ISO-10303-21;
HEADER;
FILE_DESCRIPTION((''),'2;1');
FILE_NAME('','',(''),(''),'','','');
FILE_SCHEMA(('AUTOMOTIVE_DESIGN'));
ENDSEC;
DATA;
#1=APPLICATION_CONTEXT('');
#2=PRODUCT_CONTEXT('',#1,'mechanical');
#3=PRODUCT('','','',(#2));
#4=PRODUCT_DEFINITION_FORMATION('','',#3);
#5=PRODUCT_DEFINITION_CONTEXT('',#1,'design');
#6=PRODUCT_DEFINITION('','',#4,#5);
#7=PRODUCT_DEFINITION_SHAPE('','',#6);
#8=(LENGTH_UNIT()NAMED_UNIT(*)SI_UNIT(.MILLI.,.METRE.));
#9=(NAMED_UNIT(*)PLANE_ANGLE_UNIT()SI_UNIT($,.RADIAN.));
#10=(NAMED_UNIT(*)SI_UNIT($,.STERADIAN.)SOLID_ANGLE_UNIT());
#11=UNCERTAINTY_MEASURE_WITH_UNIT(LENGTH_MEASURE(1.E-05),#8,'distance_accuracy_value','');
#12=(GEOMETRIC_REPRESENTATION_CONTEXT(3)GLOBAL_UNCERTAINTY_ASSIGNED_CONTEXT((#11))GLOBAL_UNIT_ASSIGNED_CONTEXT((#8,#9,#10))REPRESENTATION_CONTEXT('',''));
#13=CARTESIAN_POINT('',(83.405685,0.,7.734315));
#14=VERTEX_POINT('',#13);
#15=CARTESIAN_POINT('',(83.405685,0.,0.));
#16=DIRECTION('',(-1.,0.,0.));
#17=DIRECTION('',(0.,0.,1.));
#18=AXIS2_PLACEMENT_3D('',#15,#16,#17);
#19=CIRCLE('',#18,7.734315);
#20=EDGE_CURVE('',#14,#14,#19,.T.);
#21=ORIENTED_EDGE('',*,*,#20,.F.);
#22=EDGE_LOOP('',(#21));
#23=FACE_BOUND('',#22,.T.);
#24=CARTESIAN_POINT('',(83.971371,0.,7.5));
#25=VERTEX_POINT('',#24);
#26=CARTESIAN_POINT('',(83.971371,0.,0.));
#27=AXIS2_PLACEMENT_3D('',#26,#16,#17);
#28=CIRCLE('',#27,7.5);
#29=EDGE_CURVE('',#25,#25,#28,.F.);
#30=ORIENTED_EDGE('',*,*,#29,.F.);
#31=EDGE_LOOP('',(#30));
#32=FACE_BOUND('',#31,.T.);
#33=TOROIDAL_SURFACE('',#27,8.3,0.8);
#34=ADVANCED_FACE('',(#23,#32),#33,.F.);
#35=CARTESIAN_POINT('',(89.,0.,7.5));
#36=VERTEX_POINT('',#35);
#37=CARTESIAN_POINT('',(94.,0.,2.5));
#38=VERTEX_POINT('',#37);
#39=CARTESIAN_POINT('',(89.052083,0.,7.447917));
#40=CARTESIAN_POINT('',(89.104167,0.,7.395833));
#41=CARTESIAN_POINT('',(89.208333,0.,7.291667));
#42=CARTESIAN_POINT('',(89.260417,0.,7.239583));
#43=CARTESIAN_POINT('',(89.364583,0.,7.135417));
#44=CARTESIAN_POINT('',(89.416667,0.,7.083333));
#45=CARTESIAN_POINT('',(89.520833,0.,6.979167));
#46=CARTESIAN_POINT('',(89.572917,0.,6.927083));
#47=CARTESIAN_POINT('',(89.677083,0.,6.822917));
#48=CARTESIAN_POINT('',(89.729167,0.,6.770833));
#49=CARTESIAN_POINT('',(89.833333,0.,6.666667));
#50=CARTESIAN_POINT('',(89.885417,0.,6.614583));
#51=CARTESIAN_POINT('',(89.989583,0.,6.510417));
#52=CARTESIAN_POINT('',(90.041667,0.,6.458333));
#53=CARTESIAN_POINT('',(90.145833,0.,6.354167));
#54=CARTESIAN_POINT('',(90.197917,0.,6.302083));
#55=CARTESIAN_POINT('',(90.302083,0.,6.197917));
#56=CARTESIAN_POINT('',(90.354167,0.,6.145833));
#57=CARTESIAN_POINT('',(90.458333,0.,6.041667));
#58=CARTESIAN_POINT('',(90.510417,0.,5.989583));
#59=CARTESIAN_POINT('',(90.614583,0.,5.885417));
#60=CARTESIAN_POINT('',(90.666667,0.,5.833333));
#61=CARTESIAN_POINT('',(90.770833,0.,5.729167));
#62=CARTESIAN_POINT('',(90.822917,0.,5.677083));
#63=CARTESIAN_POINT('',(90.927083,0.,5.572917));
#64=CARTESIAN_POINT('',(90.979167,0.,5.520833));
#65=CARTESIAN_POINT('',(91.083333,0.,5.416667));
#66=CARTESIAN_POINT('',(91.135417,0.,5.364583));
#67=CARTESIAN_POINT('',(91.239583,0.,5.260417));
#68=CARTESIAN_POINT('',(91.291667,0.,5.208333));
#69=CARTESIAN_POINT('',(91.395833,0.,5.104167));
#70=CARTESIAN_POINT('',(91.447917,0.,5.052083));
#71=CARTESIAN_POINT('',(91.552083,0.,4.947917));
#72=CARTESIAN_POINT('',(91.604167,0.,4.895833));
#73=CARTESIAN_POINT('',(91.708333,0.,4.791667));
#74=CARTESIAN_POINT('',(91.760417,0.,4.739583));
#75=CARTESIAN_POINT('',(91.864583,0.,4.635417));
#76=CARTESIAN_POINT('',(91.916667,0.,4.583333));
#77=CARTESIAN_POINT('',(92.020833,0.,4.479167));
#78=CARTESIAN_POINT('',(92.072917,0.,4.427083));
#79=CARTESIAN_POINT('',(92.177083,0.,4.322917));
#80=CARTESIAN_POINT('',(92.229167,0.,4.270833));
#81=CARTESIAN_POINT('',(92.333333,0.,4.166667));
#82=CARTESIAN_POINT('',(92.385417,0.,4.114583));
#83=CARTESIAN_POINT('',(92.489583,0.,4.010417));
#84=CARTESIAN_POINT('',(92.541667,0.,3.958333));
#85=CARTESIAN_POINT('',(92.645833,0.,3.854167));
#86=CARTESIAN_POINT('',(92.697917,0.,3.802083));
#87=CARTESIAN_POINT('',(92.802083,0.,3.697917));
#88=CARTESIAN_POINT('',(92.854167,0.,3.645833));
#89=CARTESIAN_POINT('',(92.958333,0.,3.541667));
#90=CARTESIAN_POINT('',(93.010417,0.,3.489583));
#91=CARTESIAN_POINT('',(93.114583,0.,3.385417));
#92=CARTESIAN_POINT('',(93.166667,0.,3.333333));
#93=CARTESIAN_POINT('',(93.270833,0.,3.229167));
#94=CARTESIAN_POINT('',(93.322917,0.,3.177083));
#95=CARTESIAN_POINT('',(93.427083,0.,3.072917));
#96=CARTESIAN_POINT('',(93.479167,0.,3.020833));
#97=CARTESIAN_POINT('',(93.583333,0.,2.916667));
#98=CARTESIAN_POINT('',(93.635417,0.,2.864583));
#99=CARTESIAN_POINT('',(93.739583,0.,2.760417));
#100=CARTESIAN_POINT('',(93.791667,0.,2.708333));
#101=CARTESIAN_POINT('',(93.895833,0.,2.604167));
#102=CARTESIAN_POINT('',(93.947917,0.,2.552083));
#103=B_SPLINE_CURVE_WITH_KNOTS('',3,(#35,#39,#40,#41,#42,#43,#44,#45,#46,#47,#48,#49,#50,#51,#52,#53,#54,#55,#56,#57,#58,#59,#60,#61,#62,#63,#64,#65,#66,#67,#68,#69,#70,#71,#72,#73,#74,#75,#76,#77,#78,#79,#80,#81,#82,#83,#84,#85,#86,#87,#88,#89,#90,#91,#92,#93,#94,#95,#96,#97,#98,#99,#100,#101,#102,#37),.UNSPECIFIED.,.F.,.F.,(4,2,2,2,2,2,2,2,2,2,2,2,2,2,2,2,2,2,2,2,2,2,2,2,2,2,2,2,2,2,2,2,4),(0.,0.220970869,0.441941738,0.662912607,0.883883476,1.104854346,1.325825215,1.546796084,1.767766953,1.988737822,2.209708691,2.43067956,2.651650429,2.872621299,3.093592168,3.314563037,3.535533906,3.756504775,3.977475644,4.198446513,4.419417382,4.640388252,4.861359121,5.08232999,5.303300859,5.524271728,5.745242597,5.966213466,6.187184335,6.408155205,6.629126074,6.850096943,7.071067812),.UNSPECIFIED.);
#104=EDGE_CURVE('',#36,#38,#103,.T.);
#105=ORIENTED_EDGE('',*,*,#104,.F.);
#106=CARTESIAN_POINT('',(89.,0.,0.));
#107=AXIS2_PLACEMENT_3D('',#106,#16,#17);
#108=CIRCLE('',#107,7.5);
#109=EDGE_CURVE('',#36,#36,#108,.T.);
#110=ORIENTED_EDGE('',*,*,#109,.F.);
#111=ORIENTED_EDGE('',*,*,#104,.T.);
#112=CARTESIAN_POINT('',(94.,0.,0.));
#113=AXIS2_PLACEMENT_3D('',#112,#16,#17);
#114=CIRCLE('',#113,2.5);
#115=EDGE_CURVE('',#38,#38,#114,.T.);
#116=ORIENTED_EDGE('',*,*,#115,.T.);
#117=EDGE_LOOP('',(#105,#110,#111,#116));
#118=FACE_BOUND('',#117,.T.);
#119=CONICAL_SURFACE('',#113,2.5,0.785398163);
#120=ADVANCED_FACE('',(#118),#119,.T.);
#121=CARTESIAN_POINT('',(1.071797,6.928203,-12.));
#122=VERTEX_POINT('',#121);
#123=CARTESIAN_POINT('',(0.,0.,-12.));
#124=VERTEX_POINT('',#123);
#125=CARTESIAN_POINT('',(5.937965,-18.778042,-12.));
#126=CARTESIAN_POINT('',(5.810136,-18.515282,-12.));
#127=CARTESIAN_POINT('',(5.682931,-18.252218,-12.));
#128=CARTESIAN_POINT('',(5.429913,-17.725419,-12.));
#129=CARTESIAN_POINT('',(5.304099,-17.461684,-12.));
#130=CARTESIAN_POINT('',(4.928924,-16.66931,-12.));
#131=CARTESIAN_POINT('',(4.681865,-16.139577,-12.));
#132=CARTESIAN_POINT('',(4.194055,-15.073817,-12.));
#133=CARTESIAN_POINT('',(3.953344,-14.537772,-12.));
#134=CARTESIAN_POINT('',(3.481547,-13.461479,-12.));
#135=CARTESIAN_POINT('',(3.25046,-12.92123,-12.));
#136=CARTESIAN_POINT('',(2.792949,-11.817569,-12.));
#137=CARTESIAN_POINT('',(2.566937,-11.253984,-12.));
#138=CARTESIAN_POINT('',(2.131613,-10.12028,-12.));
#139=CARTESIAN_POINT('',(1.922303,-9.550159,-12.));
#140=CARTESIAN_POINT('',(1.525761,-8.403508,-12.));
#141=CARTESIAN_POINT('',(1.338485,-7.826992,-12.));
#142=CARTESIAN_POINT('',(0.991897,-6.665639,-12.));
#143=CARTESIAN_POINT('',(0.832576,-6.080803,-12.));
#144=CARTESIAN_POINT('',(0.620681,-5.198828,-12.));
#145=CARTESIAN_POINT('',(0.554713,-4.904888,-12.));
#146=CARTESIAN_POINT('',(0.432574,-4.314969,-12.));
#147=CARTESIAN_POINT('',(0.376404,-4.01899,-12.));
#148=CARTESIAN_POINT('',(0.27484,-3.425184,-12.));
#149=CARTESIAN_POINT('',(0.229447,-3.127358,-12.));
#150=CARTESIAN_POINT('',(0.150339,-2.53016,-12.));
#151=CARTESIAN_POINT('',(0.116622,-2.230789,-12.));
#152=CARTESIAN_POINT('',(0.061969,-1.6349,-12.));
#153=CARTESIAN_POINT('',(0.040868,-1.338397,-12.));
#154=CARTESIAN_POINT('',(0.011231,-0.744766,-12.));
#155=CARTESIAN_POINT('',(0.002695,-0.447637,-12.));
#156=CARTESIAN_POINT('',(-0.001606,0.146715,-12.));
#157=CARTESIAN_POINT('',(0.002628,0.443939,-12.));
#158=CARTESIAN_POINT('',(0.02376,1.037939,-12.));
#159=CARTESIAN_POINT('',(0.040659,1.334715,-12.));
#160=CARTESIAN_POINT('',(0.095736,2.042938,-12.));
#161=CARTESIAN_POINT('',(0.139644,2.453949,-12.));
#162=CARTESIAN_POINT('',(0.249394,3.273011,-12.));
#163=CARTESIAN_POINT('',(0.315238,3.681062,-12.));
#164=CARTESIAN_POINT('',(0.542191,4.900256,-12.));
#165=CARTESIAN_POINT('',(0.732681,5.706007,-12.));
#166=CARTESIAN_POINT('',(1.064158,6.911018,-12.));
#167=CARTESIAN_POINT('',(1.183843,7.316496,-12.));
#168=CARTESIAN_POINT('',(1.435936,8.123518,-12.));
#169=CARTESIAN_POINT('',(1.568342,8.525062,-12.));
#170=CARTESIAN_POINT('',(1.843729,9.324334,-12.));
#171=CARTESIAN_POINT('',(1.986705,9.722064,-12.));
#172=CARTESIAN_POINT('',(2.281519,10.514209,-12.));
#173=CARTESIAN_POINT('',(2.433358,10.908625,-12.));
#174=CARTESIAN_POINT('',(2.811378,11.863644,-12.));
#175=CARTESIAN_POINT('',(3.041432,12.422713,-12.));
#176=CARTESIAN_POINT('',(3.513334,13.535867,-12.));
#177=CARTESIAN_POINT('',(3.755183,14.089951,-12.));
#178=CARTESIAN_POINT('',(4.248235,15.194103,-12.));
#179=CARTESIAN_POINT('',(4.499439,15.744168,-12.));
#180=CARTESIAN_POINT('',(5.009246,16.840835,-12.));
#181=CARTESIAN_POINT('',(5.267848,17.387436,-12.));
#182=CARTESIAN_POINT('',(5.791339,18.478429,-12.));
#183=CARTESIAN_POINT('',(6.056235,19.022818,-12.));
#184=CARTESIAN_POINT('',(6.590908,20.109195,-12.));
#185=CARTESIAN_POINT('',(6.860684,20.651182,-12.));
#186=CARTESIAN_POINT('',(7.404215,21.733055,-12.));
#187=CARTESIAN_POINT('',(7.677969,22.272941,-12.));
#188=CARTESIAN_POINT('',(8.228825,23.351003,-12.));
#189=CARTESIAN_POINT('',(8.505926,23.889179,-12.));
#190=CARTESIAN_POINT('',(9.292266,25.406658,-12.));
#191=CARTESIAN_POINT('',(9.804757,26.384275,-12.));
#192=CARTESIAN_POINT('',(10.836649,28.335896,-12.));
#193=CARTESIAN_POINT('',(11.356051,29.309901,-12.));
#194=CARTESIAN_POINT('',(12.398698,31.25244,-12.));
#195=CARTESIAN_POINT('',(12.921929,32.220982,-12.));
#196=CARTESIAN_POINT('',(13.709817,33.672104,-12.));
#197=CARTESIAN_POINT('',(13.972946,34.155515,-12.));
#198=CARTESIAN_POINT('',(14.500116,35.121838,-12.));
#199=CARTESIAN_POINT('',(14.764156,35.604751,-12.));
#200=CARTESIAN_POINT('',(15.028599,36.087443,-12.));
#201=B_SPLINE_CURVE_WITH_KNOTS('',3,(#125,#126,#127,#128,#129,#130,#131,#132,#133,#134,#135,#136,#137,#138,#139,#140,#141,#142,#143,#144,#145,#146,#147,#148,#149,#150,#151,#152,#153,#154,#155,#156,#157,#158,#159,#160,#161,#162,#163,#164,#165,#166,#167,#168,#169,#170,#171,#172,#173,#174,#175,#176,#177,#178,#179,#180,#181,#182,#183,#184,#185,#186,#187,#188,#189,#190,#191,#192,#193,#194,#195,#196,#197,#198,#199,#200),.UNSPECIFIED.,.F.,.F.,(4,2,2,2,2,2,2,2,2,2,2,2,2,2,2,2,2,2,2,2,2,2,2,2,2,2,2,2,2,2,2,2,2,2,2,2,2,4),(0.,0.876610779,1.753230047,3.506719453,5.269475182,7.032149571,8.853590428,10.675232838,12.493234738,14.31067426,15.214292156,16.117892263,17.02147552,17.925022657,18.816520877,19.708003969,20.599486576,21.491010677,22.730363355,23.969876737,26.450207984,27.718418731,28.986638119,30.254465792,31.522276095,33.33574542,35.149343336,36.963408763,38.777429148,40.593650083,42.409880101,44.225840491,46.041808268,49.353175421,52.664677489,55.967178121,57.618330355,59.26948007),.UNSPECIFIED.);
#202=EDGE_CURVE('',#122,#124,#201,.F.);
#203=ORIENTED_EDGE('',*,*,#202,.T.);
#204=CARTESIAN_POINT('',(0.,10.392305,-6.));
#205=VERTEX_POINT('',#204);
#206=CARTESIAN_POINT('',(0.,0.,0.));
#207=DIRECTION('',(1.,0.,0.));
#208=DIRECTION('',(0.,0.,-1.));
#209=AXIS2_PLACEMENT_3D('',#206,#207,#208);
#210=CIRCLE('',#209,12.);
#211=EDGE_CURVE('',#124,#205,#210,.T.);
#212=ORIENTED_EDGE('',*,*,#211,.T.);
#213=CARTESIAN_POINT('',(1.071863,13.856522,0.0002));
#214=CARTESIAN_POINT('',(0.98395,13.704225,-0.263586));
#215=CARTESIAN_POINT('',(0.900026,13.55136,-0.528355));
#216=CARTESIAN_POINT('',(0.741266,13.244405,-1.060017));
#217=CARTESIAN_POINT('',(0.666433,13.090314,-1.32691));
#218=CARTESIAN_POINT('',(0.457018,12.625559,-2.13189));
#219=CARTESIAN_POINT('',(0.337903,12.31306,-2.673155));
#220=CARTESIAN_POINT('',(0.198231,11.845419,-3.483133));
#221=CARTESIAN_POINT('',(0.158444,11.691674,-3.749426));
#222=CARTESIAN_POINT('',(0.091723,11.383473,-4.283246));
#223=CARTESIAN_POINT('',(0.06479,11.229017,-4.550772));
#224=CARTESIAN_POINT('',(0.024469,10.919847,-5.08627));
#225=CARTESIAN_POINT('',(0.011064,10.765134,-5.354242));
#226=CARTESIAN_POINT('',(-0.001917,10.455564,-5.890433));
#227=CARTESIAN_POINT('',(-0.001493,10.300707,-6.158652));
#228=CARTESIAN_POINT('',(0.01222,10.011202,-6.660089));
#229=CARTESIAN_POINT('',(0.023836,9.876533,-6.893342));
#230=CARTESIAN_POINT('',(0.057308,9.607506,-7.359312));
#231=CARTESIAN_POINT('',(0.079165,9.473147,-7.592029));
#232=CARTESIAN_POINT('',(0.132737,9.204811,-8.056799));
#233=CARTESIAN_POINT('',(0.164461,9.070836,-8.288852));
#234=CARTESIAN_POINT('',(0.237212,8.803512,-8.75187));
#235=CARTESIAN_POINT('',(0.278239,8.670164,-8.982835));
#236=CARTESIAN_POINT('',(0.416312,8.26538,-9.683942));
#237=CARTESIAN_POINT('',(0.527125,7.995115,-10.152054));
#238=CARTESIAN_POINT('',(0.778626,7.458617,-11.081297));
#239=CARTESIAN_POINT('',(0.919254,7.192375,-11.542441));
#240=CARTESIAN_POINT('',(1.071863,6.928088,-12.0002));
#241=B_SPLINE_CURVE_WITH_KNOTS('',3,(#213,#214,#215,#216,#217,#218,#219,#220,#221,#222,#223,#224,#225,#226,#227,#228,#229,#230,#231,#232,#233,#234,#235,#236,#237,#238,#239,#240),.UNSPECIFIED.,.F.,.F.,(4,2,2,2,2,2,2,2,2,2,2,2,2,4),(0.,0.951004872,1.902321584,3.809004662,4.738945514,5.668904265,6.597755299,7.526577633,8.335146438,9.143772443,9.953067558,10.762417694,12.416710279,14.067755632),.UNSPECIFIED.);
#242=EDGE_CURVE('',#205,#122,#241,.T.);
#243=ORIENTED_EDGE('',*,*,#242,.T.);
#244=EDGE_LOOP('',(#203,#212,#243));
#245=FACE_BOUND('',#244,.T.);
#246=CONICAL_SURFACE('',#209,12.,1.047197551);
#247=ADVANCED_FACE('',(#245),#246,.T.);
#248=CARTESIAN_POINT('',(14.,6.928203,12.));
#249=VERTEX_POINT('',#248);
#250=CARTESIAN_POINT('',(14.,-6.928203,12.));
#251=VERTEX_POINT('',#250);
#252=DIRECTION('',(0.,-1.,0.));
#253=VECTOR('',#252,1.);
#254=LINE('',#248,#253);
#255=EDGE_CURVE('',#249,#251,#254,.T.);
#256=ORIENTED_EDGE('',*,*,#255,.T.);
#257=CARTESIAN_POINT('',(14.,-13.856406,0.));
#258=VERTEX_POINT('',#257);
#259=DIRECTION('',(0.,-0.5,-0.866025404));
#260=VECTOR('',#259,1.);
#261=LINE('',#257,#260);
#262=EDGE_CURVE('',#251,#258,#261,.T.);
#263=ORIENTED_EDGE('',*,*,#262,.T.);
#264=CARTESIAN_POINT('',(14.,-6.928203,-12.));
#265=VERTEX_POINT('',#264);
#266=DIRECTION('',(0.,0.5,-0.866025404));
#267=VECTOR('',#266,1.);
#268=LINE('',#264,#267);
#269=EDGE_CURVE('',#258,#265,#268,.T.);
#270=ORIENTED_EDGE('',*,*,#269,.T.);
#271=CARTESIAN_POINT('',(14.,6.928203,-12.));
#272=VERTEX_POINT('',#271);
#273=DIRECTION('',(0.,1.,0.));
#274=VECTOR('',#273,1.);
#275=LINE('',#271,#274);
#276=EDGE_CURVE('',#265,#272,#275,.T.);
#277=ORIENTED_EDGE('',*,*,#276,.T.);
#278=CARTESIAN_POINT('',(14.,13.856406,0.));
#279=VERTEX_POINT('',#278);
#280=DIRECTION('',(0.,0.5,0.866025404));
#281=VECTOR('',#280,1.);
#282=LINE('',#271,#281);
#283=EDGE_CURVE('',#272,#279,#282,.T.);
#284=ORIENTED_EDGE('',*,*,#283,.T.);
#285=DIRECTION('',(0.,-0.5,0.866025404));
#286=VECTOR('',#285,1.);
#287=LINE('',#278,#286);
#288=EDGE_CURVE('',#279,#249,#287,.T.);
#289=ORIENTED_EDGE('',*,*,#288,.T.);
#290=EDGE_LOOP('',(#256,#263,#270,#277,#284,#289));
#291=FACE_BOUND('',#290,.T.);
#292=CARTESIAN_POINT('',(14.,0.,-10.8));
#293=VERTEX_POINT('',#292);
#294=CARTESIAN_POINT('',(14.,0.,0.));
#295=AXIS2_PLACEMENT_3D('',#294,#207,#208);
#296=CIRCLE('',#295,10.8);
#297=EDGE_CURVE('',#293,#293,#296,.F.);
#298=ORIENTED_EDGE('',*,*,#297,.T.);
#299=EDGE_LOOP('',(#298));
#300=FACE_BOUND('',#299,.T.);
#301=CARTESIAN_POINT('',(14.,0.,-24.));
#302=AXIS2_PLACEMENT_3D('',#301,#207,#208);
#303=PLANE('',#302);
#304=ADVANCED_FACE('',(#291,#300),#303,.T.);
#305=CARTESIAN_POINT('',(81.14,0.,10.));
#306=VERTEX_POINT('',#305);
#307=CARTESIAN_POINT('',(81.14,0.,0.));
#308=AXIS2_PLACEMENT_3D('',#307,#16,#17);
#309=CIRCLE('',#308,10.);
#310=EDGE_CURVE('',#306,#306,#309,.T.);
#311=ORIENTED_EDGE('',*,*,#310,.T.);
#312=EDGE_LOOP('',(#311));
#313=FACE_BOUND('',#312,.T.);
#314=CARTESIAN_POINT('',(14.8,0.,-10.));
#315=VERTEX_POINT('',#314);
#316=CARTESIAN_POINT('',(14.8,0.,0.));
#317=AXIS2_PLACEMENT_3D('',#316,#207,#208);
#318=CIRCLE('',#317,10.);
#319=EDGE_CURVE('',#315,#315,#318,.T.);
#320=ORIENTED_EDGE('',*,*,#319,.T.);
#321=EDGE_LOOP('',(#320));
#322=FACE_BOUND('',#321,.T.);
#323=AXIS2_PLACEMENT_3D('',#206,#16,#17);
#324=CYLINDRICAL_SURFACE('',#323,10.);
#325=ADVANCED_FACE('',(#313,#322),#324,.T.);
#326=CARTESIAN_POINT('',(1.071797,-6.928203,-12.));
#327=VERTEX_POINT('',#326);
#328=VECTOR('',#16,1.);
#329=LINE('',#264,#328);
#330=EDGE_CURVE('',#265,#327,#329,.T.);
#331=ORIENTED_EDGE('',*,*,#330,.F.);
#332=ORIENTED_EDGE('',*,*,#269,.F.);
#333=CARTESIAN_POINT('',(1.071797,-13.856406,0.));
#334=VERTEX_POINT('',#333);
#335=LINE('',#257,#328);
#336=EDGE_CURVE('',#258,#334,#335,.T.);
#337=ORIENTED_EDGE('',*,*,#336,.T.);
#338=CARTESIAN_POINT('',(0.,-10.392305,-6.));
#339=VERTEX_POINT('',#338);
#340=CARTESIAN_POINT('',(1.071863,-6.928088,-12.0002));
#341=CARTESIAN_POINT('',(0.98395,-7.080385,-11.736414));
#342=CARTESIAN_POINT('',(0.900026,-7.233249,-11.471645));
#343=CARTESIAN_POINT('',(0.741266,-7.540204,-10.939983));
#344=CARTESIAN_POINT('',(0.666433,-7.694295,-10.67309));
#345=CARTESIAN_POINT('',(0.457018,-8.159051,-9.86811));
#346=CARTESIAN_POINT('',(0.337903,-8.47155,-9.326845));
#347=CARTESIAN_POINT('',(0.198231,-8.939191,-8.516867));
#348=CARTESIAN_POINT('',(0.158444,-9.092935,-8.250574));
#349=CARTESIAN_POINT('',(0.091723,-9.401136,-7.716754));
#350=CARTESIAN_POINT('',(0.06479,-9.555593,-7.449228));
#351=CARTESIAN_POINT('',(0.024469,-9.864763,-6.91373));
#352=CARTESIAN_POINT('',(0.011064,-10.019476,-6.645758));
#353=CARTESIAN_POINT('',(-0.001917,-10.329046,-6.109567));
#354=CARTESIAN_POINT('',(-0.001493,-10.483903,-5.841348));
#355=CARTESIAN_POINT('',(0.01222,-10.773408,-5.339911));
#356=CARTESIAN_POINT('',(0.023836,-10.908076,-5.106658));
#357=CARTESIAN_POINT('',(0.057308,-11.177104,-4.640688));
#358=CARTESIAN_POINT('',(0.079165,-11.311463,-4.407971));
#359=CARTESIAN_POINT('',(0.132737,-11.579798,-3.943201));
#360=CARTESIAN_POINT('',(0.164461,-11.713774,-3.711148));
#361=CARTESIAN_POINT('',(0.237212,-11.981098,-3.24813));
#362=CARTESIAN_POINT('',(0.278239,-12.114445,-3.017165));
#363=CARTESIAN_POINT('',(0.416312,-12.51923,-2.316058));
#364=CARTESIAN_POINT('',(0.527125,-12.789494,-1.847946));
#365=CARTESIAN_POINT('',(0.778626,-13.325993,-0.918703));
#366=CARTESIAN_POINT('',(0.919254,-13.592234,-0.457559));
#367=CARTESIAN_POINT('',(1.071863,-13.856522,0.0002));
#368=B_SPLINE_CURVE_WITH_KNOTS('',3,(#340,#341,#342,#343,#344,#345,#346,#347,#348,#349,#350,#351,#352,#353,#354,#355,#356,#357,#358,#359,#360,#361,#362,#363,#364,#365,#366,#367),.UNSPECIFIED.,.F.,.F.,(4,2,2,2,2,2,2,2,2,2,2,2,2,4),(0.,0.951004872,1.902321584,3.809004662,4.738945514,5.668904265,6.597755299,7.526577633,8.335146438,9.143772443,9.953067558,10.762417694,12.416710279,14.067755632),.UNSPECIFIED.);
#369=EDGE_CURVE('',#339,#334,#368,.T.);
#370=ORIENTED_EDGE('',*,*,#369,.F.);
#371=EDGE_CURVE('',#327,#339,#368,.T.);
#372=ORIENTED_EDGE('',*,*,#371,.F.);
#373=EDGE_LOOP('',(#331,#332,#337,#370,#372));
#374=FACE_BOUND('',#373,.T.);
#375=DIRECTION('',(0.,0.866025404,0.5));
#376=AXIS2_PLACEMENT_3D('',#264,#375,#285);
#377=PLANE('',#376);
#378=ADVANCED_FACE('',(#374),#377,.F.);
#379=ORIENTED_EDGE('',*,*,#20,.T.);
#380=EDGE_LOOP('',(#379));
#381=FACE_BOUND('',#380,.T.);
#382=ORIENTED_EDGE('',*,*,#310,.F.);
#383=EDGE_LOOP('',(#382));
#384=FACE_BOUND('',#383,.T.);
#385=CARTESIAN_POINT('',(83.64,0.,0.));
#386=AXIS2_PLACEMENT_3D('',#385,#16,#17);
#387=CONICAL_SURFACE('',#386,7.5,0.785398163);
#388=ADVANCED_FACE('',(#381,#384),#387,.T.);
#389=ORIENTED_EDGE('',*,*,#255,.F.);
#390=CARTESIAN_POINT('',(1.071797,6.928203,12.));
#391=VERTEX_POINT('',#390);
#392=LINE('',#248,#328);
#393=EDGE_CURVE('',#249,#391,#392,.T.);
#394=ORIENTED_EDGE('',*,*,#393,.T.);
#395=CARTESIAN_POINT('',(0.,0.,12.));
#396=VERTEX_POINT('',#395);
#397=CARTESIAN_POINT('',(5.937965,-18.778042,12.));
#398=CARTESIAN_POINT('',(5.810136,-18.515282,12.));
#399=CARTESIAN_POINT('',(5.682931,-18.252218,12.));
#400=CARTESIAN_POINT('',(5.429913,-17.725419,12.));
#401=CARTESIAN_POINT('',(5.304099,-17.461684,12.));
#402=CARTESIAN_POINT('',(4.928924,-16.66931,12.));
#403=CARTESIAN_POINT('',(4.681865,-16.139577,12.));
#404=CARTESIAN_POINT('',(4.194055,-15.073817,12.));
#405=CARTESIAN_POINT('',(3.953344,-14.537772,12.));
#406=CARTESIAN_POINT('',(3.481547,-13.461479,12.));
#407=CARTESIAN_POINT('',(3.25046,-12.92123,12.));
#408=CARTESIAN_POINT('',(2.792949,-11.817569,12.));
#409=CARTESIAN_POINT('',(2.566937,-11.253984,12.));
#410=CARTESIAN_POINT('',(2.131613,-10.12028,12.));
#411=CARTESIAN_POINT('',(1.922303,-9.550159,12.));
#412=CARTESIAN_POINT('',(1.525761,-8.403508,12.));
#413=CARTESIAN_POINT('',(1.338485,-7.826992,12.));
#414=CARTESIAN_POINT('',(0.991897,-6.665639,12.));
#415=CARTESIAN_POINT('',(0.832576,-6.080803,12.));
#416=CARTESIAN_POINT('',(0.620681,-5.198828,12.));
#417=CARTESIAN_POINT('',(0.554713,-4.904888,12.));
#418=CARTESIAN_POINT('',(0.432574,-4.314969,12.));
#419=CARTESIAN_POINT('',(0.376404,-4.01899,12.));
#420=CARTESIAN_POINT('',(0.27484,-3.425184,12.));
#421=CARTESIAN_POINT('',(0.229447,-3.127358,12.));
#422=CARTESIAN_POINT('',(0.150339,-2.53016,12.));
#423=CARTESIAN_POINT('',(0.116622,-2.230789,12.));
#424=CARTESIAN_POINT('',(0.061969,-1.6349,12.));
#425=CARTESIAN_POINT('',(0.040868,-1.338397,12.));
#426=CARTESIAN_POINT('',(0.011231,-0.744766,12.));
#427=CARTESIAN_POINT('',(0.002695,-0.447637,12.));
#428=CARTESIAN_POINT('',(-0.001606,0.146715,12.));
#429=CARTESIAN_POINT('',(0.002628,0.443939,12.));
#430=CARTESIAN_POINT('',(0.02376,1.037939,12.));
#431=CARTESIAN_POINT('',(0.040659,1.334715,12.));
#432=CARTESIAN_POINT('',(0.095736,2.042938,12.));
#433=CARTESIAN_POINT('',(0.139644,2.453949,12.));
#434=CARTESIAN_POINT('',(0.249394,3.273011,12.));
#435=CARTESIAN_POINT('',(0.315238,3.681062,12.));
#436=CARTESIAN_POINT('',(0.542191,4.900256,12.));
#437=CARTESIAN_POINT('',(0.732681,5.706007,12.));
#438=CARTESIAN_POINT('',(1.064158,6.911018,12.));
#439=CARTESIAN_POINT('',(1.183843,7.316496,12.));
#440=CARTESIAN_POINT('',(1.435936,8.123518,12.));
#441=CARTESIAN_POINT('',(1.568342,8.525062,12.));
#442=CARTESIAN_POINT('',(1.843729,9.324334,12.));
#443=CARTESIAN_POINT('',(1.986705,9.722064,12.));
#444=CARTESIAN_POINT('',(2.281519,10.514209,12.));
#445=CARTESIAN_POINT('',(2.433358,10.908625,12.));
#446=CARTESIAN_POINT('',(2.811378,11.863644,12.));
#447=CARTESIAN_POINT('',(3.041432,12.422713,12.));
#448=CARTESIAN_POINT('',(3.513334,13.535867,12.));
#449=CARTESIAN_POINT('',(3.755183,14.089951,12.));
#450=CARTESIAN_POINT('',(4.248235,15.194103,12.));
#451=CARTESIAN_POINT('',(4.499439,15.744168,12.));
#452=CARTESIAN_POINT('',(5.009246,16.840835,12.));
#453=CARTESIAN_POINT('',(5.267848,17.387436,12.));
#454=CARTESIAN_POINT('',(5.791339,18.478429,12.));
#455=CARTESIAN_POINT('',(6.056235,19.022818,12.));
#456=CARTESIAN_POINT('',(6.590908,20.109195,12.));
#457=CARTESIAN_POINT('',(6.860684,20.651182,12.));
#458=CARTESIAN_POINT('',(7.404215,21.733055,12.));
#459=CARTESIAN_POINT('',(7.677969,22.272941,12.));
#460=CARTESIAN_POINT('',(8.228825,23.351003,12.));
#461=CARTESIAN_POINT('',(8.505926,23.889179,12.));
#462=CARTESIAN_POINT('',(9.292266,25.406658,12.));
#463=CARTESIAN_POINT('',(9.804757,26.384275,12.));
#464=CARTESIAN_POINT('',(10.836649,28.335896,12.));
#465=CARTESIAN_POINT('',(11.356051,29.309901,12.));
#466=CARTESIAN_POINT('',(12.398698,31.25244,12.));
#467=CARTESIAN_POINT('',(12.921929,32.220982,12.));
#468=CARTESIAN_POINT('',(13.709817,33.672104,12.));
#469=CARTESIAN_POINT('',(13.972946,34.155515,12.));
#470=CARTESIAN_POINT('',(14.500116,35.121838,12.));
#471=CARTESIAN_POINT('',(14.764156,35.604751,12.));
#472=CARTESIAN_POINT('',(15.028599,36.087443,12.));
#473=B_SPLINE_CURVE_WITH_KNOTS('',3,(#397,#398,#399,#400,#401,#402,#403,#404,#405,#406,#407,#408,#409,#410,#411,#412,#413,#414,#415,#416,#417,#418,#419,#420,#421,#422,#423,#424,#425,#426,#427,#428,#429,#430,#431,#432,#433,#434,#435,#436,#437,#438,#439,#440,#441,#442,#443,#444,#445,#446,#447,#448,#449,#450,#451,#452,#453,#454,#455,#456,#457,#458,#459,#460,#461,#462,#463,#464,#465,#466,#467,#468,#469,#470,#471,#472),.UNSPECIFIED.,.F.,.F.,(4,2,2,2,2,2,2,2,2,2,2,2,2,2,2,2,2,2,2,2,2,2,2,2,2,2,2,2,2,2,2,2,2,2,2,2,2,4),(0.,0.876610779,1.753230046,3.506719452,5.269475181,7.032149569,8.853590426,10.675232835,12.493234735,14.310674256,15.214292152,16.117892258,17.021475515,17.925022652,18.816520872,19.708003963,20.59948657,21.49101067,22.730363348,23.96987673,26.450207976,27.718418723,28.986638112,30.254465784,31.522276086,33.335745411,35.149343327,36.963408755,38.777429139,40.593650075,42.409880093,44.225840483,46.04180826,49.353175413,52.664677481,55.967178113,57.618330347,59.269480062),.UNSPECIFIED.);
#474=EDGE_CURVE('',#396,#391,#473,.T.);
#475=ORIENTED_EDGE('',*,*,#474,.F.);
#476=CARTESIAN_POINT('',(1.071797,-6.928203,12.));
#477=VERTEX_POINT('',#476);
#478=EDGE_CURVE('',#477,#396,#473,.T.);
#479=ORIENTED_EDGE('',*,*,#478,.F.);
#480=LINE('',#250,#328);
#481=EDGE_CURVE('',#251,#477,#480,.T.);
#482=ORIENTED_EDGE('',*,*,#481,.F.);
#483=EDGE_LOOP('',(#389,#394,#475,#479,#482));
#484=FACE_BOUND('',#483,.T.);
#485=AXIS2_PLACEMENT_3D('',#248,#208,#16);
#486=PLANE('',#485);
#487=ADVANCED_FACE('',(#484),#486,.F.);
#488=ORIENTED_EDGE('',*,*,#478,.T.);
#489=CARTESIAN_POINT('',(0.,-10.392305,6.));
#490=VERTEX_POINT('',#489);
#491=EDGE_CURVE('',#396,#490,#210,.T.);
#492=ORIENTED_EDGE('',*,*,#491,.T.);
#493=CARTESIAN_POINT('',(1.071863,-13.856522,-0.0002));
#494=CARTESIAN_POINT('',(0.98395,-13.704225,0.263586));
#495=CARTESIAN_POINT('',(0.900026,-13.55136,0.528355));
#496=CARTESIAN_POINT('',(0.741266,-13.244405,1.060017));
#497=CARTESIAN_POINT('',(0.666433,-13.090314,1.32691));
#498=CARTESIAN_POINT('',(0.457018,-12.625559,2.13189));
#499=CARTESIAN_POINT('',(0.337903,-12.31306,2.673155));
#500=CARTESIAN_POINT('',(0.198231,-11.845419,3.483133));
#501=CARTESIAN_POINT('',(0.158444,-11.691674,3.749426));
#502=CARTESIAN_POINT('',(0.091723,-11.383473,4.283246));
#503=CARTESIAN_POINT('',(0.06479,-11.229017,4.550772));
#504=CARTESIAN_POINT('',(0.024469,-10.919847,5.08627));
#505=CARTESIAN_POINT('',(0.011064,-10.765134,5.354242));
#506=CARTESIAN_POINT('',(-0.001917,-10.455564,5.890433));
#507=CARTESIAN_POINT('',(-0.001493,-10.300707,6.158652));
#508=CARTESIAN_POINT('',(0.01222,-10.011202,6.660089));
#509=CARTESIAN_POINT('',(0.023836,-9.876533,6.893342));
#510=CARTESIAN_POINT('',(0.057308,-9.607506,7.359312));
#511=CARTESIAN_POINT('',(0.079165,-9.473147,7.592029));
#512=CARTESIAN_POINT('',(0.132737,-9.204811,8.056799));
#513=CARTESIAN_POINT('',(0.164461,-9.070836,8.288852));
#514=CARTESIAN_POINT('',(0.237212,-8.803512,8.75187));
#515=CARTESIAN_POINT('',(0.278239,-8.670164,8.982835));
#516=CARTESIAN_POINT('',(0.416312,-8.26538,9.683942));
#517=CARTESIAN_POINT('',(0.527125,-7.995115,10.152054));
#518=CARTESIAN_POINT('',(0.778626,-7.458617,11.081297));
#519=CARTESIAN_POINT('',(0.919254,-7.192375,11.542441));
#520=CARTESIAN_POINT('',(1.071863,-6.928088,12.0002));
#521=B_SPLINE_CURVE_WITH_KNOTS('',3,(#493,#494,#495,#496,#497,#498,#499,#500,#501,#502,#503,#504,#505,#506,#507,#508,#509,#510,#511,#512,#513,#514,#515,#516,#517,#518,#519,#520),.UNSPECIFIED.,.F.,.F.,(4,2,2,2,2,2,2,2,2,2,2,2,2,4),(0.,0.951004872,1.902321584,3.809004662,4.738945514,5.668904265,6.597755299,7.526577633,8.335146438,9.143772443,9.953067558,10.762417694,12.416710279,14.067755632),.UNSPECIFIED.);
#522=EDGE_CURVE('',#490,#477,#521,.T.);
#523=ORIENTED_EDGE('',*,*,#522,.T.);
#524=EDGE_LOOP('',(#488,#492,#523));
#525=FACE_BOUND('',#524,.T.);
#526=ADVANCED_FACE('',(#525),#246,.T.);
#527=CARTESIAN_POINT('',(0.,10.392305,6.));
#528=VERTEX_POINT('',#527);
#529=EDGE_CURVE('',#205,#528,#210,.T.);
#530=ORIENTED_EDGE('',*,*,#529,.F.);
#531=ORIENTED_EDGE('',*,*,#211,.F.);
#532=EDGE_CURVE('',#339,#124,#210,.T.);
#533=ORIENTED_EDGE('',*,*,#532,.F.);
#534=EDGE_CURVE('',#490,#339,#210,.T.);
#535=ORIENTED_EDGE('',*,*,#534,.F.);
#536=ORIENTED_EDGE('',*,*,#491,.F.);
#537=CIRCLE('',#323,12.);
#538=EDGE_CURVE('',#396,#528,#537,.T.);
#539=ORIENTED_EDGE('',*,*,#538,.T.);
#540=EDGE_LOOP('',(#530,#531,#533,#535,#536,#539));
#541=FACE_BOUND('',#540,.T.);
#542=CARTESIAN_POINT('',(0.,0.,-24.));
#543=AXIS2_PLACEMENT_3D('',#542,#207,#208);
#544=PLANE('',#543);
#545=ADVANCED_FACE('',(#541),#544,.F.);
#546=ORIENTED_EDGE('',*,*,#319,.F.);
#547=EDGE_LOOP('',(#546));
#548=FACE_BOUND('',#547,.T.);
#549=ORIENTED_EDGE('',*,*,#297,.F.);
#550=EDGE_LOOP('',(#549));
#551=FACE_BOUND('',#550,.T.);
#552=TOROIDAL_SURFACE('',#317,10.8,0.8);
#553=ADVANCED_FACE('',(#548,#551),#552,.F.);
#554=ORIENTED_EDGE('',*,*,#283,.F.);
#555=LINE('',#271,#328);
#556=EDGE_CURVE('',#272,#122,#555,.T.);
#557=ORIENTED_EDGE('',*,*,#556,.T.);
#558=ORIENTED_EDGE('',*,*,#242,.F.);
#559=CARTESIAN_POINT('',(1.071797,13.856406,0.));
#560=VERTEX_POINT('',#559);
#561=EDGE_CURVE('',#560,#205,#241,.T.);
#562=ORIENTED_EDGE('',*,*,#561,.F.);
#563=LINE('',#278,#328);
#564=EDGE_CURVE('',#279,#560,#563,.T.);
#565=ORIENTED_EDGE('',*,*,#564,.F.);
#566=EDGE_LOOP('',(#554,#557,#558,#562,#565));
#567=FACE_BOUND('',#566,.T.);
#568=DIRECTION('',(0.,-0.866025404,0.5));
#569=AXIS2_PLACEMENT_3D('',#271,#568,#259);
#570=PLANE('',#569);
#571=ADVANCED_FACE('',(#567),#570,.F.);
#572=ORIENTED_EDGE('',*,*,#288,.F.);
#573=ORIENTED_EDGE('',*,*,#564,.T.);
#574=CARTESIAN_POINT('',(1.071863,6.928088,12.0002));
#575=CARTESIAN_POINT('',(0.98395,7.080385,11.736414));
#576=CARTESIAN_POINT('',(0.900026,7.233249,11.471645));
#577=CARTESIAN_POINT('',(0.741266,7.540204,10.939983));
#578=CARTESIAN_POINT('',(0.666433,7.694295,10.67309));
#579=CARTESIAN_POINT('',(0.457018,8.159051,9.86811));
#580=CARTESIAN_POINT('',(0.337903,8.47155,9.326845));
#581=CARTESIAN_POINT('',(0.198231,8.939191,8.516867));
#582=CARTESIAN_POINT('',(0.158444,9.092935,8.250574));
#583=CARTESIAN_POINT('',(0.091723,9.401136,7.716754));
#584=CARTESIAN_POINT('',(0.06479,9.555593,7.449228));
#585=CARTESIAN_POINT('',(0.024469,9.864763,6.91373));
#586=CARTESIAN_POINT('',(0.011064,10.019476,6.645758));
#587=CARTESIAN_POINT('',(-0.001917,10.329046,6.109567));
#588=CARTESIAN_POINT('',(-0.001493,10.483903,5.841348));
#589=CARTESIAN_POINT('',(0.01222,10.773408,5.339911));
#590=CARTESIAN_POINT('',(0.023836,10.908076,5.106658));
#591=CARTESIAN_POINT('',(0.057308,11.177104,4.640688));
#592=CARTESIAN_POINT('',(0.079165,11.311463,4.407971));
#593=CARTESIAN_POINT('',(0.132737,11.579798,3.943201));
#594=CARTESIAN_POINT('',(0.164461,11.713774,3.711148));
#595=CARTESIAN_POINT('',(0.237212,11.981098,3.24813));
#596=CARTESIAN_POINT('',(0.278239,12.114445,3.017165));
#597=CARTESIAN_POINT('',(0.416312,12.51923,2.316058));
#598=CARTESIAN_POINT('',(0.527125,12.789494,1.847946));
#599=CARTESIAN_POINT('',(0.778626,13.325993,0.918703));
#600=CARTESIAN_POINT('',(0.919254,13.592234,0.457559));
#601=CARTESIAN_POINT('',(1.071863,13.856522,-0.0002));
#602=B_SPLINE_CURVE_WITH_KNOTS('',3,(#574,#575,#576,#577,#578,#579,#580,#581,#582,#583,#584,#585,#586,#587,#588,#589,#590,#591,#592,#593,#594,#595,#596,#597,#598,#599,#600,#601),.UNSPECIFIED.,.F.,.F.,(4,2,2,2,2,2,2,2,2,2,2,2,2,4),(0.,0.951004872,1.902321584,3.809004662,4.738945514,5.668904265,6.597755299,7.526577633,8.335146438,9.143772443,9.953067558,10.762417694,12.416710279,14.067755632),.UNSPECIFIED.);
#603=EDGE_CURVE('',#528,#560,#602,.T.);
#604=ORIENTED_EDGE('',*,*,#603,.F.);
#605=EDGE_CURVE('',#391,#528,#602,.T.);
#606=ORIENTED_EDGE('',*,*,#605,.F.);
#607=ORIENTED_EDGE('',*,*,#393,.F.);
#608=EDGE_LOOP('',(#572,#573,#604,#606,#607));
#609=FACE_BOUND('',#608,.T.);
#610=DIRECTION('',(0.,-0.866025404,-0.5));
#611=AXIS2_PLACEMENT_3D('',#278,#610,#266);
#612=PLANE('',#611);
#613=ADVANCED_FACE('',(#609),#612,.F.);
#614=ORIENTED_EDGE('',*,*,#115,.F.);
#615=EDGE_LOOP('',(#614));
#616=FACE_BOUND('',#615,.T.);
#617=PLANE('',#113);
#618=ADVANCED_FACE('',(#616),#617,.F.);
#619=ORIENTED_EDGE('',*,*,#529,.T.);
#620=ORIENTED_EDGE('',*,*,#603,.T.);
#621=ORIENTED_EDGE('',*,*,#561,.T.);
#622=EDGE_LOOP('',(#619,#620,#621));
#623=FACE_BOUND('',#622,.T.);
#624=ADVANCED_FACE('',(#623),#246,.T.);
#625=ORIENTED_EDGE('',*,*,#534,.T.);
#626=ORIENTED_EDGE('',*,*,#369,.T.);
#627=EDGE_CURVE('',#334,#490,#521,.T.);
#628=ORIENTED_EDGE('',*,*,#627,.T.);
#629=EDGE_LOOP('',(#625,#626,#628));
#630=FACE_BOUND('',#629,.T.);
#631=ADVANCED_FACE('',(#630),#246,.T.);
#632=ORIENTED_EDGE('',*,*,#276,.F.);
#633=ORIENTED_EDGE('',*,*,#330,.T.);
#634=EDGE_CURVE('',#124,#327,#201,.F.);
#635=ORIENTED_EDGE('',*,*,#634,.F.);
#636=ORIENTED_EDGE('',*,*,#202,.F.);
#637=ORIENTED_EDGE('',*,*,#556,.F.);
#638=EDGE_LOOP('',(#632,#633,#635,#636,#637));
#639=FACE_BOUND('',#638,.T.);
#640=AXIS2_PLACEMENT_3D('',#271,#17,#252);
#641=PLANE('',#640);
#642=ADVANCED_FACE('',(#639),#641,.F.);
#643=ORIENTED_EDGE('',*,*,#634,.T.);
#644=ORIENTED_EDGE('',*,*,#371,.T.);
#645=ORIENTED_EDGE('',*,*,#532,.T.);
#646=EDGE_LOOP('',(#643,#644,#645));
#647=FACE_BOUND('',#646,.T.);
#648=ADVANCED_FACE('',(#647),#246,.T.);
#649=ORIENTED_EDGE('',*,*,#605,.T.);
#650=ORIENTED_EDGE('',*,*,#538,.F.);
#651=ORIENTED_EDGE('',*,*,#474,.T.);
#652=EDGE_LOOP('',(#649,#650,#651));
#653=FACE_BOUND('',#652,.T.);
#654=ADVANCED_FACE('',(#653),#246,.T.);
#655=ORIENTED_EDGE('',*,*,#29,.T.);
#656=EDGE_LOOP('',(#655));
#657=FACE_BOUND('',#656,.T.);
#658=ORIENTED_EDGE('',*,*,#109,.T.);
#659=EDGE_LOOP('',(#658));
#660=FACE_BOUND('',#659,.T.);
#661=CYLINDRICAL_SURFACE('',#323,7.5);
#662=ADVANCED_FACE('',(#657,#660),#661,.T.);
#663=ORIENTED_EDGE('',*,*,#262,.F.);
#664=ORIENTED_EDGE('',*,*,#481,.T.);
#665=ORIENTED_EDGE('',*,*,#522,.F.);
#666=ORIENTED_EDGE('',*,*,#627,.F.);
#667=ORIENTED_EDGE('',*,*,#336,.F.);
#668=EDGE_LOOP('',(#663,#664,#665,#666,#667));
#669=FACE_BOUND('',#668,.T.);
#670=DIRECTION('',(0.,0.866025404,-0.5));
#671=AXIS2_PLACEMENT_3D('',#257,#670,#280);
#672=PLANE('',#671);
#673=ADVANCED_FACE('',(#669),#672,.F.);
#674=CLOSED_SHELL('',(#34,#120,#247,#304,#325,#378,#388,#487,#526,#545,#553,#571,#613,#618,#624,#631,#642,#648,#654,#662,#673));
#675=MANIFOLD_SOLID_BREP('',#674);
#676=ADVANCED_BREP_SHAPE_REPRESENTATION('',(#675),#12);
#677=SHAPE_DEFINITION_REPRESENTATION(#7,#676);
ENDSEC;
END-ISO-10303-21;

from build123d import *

# Parameters (mm, degrees)
BASEHEAD_DEPTH = 14
HEADFILLET_R   = 0.8
POINTFILLET_R  = 0.8


with BuildPart() as part:
    # HexSke → BaseHead (new body)
    with BuildSketch(Plane(origin=(0, 0, 0), x_dir=(0, 0, -1), z_dir=(1, 0, 0))):
        Polygon((12, 6.92820323), (12, -6.92820323), (0, -13.856406461), (-12, -6.92820323), (-12, 6.92820323), (0, 13.856406461), align=None)
    extrude(amount=BASEHEAD_DEPTH)

    # BodySke → BaseBody (revolve)
    with BuildSketch(Plane.XY, mode=Mode.PRIVATE) as basebody_sk:
        Polygon((0, 0), (94, 0), (94, 2.5), (89, 7.5), (83.64, 7.5), (81.14, 10), (0, 10), align=None)
    revolve(basebody_sk.sketch.rotate(Axis((0, 0, 0), (1, 0, 0)), 90), axis=Axis((0, 0, 0), (1, 0, 0)))

    # Sketch3 → HeadChamfer (revolve, cut)
    with BuildSketch(Plane.XY):
        Polygon((0, 12), (3.958548116, 18.856406461), (3.958548116, 23.856406461), (-10, 23.856406461), (-10, 12), align=None)
    revolve(axis=Axis((0, 0, 0), (1, 0, 0)), mode=Mode.SUBTRACT)

    # HeadFillet
    headfillet_edges = [part.edges().sort_by_distance(p)[0] for p in [
        (14, 0, -10),
    ]]
    fillet(headfillet_edges, radius=HEADFILLET_R)

    # PointFillet
    pointfillet_edges = [part.edges().sort_by_distance(p)[0] for p in [
        (83.64, 0, -7.5),
    ]]
    fillet(pointfillet_edges, radius=POINTFILLET_R)


solid = part.part
